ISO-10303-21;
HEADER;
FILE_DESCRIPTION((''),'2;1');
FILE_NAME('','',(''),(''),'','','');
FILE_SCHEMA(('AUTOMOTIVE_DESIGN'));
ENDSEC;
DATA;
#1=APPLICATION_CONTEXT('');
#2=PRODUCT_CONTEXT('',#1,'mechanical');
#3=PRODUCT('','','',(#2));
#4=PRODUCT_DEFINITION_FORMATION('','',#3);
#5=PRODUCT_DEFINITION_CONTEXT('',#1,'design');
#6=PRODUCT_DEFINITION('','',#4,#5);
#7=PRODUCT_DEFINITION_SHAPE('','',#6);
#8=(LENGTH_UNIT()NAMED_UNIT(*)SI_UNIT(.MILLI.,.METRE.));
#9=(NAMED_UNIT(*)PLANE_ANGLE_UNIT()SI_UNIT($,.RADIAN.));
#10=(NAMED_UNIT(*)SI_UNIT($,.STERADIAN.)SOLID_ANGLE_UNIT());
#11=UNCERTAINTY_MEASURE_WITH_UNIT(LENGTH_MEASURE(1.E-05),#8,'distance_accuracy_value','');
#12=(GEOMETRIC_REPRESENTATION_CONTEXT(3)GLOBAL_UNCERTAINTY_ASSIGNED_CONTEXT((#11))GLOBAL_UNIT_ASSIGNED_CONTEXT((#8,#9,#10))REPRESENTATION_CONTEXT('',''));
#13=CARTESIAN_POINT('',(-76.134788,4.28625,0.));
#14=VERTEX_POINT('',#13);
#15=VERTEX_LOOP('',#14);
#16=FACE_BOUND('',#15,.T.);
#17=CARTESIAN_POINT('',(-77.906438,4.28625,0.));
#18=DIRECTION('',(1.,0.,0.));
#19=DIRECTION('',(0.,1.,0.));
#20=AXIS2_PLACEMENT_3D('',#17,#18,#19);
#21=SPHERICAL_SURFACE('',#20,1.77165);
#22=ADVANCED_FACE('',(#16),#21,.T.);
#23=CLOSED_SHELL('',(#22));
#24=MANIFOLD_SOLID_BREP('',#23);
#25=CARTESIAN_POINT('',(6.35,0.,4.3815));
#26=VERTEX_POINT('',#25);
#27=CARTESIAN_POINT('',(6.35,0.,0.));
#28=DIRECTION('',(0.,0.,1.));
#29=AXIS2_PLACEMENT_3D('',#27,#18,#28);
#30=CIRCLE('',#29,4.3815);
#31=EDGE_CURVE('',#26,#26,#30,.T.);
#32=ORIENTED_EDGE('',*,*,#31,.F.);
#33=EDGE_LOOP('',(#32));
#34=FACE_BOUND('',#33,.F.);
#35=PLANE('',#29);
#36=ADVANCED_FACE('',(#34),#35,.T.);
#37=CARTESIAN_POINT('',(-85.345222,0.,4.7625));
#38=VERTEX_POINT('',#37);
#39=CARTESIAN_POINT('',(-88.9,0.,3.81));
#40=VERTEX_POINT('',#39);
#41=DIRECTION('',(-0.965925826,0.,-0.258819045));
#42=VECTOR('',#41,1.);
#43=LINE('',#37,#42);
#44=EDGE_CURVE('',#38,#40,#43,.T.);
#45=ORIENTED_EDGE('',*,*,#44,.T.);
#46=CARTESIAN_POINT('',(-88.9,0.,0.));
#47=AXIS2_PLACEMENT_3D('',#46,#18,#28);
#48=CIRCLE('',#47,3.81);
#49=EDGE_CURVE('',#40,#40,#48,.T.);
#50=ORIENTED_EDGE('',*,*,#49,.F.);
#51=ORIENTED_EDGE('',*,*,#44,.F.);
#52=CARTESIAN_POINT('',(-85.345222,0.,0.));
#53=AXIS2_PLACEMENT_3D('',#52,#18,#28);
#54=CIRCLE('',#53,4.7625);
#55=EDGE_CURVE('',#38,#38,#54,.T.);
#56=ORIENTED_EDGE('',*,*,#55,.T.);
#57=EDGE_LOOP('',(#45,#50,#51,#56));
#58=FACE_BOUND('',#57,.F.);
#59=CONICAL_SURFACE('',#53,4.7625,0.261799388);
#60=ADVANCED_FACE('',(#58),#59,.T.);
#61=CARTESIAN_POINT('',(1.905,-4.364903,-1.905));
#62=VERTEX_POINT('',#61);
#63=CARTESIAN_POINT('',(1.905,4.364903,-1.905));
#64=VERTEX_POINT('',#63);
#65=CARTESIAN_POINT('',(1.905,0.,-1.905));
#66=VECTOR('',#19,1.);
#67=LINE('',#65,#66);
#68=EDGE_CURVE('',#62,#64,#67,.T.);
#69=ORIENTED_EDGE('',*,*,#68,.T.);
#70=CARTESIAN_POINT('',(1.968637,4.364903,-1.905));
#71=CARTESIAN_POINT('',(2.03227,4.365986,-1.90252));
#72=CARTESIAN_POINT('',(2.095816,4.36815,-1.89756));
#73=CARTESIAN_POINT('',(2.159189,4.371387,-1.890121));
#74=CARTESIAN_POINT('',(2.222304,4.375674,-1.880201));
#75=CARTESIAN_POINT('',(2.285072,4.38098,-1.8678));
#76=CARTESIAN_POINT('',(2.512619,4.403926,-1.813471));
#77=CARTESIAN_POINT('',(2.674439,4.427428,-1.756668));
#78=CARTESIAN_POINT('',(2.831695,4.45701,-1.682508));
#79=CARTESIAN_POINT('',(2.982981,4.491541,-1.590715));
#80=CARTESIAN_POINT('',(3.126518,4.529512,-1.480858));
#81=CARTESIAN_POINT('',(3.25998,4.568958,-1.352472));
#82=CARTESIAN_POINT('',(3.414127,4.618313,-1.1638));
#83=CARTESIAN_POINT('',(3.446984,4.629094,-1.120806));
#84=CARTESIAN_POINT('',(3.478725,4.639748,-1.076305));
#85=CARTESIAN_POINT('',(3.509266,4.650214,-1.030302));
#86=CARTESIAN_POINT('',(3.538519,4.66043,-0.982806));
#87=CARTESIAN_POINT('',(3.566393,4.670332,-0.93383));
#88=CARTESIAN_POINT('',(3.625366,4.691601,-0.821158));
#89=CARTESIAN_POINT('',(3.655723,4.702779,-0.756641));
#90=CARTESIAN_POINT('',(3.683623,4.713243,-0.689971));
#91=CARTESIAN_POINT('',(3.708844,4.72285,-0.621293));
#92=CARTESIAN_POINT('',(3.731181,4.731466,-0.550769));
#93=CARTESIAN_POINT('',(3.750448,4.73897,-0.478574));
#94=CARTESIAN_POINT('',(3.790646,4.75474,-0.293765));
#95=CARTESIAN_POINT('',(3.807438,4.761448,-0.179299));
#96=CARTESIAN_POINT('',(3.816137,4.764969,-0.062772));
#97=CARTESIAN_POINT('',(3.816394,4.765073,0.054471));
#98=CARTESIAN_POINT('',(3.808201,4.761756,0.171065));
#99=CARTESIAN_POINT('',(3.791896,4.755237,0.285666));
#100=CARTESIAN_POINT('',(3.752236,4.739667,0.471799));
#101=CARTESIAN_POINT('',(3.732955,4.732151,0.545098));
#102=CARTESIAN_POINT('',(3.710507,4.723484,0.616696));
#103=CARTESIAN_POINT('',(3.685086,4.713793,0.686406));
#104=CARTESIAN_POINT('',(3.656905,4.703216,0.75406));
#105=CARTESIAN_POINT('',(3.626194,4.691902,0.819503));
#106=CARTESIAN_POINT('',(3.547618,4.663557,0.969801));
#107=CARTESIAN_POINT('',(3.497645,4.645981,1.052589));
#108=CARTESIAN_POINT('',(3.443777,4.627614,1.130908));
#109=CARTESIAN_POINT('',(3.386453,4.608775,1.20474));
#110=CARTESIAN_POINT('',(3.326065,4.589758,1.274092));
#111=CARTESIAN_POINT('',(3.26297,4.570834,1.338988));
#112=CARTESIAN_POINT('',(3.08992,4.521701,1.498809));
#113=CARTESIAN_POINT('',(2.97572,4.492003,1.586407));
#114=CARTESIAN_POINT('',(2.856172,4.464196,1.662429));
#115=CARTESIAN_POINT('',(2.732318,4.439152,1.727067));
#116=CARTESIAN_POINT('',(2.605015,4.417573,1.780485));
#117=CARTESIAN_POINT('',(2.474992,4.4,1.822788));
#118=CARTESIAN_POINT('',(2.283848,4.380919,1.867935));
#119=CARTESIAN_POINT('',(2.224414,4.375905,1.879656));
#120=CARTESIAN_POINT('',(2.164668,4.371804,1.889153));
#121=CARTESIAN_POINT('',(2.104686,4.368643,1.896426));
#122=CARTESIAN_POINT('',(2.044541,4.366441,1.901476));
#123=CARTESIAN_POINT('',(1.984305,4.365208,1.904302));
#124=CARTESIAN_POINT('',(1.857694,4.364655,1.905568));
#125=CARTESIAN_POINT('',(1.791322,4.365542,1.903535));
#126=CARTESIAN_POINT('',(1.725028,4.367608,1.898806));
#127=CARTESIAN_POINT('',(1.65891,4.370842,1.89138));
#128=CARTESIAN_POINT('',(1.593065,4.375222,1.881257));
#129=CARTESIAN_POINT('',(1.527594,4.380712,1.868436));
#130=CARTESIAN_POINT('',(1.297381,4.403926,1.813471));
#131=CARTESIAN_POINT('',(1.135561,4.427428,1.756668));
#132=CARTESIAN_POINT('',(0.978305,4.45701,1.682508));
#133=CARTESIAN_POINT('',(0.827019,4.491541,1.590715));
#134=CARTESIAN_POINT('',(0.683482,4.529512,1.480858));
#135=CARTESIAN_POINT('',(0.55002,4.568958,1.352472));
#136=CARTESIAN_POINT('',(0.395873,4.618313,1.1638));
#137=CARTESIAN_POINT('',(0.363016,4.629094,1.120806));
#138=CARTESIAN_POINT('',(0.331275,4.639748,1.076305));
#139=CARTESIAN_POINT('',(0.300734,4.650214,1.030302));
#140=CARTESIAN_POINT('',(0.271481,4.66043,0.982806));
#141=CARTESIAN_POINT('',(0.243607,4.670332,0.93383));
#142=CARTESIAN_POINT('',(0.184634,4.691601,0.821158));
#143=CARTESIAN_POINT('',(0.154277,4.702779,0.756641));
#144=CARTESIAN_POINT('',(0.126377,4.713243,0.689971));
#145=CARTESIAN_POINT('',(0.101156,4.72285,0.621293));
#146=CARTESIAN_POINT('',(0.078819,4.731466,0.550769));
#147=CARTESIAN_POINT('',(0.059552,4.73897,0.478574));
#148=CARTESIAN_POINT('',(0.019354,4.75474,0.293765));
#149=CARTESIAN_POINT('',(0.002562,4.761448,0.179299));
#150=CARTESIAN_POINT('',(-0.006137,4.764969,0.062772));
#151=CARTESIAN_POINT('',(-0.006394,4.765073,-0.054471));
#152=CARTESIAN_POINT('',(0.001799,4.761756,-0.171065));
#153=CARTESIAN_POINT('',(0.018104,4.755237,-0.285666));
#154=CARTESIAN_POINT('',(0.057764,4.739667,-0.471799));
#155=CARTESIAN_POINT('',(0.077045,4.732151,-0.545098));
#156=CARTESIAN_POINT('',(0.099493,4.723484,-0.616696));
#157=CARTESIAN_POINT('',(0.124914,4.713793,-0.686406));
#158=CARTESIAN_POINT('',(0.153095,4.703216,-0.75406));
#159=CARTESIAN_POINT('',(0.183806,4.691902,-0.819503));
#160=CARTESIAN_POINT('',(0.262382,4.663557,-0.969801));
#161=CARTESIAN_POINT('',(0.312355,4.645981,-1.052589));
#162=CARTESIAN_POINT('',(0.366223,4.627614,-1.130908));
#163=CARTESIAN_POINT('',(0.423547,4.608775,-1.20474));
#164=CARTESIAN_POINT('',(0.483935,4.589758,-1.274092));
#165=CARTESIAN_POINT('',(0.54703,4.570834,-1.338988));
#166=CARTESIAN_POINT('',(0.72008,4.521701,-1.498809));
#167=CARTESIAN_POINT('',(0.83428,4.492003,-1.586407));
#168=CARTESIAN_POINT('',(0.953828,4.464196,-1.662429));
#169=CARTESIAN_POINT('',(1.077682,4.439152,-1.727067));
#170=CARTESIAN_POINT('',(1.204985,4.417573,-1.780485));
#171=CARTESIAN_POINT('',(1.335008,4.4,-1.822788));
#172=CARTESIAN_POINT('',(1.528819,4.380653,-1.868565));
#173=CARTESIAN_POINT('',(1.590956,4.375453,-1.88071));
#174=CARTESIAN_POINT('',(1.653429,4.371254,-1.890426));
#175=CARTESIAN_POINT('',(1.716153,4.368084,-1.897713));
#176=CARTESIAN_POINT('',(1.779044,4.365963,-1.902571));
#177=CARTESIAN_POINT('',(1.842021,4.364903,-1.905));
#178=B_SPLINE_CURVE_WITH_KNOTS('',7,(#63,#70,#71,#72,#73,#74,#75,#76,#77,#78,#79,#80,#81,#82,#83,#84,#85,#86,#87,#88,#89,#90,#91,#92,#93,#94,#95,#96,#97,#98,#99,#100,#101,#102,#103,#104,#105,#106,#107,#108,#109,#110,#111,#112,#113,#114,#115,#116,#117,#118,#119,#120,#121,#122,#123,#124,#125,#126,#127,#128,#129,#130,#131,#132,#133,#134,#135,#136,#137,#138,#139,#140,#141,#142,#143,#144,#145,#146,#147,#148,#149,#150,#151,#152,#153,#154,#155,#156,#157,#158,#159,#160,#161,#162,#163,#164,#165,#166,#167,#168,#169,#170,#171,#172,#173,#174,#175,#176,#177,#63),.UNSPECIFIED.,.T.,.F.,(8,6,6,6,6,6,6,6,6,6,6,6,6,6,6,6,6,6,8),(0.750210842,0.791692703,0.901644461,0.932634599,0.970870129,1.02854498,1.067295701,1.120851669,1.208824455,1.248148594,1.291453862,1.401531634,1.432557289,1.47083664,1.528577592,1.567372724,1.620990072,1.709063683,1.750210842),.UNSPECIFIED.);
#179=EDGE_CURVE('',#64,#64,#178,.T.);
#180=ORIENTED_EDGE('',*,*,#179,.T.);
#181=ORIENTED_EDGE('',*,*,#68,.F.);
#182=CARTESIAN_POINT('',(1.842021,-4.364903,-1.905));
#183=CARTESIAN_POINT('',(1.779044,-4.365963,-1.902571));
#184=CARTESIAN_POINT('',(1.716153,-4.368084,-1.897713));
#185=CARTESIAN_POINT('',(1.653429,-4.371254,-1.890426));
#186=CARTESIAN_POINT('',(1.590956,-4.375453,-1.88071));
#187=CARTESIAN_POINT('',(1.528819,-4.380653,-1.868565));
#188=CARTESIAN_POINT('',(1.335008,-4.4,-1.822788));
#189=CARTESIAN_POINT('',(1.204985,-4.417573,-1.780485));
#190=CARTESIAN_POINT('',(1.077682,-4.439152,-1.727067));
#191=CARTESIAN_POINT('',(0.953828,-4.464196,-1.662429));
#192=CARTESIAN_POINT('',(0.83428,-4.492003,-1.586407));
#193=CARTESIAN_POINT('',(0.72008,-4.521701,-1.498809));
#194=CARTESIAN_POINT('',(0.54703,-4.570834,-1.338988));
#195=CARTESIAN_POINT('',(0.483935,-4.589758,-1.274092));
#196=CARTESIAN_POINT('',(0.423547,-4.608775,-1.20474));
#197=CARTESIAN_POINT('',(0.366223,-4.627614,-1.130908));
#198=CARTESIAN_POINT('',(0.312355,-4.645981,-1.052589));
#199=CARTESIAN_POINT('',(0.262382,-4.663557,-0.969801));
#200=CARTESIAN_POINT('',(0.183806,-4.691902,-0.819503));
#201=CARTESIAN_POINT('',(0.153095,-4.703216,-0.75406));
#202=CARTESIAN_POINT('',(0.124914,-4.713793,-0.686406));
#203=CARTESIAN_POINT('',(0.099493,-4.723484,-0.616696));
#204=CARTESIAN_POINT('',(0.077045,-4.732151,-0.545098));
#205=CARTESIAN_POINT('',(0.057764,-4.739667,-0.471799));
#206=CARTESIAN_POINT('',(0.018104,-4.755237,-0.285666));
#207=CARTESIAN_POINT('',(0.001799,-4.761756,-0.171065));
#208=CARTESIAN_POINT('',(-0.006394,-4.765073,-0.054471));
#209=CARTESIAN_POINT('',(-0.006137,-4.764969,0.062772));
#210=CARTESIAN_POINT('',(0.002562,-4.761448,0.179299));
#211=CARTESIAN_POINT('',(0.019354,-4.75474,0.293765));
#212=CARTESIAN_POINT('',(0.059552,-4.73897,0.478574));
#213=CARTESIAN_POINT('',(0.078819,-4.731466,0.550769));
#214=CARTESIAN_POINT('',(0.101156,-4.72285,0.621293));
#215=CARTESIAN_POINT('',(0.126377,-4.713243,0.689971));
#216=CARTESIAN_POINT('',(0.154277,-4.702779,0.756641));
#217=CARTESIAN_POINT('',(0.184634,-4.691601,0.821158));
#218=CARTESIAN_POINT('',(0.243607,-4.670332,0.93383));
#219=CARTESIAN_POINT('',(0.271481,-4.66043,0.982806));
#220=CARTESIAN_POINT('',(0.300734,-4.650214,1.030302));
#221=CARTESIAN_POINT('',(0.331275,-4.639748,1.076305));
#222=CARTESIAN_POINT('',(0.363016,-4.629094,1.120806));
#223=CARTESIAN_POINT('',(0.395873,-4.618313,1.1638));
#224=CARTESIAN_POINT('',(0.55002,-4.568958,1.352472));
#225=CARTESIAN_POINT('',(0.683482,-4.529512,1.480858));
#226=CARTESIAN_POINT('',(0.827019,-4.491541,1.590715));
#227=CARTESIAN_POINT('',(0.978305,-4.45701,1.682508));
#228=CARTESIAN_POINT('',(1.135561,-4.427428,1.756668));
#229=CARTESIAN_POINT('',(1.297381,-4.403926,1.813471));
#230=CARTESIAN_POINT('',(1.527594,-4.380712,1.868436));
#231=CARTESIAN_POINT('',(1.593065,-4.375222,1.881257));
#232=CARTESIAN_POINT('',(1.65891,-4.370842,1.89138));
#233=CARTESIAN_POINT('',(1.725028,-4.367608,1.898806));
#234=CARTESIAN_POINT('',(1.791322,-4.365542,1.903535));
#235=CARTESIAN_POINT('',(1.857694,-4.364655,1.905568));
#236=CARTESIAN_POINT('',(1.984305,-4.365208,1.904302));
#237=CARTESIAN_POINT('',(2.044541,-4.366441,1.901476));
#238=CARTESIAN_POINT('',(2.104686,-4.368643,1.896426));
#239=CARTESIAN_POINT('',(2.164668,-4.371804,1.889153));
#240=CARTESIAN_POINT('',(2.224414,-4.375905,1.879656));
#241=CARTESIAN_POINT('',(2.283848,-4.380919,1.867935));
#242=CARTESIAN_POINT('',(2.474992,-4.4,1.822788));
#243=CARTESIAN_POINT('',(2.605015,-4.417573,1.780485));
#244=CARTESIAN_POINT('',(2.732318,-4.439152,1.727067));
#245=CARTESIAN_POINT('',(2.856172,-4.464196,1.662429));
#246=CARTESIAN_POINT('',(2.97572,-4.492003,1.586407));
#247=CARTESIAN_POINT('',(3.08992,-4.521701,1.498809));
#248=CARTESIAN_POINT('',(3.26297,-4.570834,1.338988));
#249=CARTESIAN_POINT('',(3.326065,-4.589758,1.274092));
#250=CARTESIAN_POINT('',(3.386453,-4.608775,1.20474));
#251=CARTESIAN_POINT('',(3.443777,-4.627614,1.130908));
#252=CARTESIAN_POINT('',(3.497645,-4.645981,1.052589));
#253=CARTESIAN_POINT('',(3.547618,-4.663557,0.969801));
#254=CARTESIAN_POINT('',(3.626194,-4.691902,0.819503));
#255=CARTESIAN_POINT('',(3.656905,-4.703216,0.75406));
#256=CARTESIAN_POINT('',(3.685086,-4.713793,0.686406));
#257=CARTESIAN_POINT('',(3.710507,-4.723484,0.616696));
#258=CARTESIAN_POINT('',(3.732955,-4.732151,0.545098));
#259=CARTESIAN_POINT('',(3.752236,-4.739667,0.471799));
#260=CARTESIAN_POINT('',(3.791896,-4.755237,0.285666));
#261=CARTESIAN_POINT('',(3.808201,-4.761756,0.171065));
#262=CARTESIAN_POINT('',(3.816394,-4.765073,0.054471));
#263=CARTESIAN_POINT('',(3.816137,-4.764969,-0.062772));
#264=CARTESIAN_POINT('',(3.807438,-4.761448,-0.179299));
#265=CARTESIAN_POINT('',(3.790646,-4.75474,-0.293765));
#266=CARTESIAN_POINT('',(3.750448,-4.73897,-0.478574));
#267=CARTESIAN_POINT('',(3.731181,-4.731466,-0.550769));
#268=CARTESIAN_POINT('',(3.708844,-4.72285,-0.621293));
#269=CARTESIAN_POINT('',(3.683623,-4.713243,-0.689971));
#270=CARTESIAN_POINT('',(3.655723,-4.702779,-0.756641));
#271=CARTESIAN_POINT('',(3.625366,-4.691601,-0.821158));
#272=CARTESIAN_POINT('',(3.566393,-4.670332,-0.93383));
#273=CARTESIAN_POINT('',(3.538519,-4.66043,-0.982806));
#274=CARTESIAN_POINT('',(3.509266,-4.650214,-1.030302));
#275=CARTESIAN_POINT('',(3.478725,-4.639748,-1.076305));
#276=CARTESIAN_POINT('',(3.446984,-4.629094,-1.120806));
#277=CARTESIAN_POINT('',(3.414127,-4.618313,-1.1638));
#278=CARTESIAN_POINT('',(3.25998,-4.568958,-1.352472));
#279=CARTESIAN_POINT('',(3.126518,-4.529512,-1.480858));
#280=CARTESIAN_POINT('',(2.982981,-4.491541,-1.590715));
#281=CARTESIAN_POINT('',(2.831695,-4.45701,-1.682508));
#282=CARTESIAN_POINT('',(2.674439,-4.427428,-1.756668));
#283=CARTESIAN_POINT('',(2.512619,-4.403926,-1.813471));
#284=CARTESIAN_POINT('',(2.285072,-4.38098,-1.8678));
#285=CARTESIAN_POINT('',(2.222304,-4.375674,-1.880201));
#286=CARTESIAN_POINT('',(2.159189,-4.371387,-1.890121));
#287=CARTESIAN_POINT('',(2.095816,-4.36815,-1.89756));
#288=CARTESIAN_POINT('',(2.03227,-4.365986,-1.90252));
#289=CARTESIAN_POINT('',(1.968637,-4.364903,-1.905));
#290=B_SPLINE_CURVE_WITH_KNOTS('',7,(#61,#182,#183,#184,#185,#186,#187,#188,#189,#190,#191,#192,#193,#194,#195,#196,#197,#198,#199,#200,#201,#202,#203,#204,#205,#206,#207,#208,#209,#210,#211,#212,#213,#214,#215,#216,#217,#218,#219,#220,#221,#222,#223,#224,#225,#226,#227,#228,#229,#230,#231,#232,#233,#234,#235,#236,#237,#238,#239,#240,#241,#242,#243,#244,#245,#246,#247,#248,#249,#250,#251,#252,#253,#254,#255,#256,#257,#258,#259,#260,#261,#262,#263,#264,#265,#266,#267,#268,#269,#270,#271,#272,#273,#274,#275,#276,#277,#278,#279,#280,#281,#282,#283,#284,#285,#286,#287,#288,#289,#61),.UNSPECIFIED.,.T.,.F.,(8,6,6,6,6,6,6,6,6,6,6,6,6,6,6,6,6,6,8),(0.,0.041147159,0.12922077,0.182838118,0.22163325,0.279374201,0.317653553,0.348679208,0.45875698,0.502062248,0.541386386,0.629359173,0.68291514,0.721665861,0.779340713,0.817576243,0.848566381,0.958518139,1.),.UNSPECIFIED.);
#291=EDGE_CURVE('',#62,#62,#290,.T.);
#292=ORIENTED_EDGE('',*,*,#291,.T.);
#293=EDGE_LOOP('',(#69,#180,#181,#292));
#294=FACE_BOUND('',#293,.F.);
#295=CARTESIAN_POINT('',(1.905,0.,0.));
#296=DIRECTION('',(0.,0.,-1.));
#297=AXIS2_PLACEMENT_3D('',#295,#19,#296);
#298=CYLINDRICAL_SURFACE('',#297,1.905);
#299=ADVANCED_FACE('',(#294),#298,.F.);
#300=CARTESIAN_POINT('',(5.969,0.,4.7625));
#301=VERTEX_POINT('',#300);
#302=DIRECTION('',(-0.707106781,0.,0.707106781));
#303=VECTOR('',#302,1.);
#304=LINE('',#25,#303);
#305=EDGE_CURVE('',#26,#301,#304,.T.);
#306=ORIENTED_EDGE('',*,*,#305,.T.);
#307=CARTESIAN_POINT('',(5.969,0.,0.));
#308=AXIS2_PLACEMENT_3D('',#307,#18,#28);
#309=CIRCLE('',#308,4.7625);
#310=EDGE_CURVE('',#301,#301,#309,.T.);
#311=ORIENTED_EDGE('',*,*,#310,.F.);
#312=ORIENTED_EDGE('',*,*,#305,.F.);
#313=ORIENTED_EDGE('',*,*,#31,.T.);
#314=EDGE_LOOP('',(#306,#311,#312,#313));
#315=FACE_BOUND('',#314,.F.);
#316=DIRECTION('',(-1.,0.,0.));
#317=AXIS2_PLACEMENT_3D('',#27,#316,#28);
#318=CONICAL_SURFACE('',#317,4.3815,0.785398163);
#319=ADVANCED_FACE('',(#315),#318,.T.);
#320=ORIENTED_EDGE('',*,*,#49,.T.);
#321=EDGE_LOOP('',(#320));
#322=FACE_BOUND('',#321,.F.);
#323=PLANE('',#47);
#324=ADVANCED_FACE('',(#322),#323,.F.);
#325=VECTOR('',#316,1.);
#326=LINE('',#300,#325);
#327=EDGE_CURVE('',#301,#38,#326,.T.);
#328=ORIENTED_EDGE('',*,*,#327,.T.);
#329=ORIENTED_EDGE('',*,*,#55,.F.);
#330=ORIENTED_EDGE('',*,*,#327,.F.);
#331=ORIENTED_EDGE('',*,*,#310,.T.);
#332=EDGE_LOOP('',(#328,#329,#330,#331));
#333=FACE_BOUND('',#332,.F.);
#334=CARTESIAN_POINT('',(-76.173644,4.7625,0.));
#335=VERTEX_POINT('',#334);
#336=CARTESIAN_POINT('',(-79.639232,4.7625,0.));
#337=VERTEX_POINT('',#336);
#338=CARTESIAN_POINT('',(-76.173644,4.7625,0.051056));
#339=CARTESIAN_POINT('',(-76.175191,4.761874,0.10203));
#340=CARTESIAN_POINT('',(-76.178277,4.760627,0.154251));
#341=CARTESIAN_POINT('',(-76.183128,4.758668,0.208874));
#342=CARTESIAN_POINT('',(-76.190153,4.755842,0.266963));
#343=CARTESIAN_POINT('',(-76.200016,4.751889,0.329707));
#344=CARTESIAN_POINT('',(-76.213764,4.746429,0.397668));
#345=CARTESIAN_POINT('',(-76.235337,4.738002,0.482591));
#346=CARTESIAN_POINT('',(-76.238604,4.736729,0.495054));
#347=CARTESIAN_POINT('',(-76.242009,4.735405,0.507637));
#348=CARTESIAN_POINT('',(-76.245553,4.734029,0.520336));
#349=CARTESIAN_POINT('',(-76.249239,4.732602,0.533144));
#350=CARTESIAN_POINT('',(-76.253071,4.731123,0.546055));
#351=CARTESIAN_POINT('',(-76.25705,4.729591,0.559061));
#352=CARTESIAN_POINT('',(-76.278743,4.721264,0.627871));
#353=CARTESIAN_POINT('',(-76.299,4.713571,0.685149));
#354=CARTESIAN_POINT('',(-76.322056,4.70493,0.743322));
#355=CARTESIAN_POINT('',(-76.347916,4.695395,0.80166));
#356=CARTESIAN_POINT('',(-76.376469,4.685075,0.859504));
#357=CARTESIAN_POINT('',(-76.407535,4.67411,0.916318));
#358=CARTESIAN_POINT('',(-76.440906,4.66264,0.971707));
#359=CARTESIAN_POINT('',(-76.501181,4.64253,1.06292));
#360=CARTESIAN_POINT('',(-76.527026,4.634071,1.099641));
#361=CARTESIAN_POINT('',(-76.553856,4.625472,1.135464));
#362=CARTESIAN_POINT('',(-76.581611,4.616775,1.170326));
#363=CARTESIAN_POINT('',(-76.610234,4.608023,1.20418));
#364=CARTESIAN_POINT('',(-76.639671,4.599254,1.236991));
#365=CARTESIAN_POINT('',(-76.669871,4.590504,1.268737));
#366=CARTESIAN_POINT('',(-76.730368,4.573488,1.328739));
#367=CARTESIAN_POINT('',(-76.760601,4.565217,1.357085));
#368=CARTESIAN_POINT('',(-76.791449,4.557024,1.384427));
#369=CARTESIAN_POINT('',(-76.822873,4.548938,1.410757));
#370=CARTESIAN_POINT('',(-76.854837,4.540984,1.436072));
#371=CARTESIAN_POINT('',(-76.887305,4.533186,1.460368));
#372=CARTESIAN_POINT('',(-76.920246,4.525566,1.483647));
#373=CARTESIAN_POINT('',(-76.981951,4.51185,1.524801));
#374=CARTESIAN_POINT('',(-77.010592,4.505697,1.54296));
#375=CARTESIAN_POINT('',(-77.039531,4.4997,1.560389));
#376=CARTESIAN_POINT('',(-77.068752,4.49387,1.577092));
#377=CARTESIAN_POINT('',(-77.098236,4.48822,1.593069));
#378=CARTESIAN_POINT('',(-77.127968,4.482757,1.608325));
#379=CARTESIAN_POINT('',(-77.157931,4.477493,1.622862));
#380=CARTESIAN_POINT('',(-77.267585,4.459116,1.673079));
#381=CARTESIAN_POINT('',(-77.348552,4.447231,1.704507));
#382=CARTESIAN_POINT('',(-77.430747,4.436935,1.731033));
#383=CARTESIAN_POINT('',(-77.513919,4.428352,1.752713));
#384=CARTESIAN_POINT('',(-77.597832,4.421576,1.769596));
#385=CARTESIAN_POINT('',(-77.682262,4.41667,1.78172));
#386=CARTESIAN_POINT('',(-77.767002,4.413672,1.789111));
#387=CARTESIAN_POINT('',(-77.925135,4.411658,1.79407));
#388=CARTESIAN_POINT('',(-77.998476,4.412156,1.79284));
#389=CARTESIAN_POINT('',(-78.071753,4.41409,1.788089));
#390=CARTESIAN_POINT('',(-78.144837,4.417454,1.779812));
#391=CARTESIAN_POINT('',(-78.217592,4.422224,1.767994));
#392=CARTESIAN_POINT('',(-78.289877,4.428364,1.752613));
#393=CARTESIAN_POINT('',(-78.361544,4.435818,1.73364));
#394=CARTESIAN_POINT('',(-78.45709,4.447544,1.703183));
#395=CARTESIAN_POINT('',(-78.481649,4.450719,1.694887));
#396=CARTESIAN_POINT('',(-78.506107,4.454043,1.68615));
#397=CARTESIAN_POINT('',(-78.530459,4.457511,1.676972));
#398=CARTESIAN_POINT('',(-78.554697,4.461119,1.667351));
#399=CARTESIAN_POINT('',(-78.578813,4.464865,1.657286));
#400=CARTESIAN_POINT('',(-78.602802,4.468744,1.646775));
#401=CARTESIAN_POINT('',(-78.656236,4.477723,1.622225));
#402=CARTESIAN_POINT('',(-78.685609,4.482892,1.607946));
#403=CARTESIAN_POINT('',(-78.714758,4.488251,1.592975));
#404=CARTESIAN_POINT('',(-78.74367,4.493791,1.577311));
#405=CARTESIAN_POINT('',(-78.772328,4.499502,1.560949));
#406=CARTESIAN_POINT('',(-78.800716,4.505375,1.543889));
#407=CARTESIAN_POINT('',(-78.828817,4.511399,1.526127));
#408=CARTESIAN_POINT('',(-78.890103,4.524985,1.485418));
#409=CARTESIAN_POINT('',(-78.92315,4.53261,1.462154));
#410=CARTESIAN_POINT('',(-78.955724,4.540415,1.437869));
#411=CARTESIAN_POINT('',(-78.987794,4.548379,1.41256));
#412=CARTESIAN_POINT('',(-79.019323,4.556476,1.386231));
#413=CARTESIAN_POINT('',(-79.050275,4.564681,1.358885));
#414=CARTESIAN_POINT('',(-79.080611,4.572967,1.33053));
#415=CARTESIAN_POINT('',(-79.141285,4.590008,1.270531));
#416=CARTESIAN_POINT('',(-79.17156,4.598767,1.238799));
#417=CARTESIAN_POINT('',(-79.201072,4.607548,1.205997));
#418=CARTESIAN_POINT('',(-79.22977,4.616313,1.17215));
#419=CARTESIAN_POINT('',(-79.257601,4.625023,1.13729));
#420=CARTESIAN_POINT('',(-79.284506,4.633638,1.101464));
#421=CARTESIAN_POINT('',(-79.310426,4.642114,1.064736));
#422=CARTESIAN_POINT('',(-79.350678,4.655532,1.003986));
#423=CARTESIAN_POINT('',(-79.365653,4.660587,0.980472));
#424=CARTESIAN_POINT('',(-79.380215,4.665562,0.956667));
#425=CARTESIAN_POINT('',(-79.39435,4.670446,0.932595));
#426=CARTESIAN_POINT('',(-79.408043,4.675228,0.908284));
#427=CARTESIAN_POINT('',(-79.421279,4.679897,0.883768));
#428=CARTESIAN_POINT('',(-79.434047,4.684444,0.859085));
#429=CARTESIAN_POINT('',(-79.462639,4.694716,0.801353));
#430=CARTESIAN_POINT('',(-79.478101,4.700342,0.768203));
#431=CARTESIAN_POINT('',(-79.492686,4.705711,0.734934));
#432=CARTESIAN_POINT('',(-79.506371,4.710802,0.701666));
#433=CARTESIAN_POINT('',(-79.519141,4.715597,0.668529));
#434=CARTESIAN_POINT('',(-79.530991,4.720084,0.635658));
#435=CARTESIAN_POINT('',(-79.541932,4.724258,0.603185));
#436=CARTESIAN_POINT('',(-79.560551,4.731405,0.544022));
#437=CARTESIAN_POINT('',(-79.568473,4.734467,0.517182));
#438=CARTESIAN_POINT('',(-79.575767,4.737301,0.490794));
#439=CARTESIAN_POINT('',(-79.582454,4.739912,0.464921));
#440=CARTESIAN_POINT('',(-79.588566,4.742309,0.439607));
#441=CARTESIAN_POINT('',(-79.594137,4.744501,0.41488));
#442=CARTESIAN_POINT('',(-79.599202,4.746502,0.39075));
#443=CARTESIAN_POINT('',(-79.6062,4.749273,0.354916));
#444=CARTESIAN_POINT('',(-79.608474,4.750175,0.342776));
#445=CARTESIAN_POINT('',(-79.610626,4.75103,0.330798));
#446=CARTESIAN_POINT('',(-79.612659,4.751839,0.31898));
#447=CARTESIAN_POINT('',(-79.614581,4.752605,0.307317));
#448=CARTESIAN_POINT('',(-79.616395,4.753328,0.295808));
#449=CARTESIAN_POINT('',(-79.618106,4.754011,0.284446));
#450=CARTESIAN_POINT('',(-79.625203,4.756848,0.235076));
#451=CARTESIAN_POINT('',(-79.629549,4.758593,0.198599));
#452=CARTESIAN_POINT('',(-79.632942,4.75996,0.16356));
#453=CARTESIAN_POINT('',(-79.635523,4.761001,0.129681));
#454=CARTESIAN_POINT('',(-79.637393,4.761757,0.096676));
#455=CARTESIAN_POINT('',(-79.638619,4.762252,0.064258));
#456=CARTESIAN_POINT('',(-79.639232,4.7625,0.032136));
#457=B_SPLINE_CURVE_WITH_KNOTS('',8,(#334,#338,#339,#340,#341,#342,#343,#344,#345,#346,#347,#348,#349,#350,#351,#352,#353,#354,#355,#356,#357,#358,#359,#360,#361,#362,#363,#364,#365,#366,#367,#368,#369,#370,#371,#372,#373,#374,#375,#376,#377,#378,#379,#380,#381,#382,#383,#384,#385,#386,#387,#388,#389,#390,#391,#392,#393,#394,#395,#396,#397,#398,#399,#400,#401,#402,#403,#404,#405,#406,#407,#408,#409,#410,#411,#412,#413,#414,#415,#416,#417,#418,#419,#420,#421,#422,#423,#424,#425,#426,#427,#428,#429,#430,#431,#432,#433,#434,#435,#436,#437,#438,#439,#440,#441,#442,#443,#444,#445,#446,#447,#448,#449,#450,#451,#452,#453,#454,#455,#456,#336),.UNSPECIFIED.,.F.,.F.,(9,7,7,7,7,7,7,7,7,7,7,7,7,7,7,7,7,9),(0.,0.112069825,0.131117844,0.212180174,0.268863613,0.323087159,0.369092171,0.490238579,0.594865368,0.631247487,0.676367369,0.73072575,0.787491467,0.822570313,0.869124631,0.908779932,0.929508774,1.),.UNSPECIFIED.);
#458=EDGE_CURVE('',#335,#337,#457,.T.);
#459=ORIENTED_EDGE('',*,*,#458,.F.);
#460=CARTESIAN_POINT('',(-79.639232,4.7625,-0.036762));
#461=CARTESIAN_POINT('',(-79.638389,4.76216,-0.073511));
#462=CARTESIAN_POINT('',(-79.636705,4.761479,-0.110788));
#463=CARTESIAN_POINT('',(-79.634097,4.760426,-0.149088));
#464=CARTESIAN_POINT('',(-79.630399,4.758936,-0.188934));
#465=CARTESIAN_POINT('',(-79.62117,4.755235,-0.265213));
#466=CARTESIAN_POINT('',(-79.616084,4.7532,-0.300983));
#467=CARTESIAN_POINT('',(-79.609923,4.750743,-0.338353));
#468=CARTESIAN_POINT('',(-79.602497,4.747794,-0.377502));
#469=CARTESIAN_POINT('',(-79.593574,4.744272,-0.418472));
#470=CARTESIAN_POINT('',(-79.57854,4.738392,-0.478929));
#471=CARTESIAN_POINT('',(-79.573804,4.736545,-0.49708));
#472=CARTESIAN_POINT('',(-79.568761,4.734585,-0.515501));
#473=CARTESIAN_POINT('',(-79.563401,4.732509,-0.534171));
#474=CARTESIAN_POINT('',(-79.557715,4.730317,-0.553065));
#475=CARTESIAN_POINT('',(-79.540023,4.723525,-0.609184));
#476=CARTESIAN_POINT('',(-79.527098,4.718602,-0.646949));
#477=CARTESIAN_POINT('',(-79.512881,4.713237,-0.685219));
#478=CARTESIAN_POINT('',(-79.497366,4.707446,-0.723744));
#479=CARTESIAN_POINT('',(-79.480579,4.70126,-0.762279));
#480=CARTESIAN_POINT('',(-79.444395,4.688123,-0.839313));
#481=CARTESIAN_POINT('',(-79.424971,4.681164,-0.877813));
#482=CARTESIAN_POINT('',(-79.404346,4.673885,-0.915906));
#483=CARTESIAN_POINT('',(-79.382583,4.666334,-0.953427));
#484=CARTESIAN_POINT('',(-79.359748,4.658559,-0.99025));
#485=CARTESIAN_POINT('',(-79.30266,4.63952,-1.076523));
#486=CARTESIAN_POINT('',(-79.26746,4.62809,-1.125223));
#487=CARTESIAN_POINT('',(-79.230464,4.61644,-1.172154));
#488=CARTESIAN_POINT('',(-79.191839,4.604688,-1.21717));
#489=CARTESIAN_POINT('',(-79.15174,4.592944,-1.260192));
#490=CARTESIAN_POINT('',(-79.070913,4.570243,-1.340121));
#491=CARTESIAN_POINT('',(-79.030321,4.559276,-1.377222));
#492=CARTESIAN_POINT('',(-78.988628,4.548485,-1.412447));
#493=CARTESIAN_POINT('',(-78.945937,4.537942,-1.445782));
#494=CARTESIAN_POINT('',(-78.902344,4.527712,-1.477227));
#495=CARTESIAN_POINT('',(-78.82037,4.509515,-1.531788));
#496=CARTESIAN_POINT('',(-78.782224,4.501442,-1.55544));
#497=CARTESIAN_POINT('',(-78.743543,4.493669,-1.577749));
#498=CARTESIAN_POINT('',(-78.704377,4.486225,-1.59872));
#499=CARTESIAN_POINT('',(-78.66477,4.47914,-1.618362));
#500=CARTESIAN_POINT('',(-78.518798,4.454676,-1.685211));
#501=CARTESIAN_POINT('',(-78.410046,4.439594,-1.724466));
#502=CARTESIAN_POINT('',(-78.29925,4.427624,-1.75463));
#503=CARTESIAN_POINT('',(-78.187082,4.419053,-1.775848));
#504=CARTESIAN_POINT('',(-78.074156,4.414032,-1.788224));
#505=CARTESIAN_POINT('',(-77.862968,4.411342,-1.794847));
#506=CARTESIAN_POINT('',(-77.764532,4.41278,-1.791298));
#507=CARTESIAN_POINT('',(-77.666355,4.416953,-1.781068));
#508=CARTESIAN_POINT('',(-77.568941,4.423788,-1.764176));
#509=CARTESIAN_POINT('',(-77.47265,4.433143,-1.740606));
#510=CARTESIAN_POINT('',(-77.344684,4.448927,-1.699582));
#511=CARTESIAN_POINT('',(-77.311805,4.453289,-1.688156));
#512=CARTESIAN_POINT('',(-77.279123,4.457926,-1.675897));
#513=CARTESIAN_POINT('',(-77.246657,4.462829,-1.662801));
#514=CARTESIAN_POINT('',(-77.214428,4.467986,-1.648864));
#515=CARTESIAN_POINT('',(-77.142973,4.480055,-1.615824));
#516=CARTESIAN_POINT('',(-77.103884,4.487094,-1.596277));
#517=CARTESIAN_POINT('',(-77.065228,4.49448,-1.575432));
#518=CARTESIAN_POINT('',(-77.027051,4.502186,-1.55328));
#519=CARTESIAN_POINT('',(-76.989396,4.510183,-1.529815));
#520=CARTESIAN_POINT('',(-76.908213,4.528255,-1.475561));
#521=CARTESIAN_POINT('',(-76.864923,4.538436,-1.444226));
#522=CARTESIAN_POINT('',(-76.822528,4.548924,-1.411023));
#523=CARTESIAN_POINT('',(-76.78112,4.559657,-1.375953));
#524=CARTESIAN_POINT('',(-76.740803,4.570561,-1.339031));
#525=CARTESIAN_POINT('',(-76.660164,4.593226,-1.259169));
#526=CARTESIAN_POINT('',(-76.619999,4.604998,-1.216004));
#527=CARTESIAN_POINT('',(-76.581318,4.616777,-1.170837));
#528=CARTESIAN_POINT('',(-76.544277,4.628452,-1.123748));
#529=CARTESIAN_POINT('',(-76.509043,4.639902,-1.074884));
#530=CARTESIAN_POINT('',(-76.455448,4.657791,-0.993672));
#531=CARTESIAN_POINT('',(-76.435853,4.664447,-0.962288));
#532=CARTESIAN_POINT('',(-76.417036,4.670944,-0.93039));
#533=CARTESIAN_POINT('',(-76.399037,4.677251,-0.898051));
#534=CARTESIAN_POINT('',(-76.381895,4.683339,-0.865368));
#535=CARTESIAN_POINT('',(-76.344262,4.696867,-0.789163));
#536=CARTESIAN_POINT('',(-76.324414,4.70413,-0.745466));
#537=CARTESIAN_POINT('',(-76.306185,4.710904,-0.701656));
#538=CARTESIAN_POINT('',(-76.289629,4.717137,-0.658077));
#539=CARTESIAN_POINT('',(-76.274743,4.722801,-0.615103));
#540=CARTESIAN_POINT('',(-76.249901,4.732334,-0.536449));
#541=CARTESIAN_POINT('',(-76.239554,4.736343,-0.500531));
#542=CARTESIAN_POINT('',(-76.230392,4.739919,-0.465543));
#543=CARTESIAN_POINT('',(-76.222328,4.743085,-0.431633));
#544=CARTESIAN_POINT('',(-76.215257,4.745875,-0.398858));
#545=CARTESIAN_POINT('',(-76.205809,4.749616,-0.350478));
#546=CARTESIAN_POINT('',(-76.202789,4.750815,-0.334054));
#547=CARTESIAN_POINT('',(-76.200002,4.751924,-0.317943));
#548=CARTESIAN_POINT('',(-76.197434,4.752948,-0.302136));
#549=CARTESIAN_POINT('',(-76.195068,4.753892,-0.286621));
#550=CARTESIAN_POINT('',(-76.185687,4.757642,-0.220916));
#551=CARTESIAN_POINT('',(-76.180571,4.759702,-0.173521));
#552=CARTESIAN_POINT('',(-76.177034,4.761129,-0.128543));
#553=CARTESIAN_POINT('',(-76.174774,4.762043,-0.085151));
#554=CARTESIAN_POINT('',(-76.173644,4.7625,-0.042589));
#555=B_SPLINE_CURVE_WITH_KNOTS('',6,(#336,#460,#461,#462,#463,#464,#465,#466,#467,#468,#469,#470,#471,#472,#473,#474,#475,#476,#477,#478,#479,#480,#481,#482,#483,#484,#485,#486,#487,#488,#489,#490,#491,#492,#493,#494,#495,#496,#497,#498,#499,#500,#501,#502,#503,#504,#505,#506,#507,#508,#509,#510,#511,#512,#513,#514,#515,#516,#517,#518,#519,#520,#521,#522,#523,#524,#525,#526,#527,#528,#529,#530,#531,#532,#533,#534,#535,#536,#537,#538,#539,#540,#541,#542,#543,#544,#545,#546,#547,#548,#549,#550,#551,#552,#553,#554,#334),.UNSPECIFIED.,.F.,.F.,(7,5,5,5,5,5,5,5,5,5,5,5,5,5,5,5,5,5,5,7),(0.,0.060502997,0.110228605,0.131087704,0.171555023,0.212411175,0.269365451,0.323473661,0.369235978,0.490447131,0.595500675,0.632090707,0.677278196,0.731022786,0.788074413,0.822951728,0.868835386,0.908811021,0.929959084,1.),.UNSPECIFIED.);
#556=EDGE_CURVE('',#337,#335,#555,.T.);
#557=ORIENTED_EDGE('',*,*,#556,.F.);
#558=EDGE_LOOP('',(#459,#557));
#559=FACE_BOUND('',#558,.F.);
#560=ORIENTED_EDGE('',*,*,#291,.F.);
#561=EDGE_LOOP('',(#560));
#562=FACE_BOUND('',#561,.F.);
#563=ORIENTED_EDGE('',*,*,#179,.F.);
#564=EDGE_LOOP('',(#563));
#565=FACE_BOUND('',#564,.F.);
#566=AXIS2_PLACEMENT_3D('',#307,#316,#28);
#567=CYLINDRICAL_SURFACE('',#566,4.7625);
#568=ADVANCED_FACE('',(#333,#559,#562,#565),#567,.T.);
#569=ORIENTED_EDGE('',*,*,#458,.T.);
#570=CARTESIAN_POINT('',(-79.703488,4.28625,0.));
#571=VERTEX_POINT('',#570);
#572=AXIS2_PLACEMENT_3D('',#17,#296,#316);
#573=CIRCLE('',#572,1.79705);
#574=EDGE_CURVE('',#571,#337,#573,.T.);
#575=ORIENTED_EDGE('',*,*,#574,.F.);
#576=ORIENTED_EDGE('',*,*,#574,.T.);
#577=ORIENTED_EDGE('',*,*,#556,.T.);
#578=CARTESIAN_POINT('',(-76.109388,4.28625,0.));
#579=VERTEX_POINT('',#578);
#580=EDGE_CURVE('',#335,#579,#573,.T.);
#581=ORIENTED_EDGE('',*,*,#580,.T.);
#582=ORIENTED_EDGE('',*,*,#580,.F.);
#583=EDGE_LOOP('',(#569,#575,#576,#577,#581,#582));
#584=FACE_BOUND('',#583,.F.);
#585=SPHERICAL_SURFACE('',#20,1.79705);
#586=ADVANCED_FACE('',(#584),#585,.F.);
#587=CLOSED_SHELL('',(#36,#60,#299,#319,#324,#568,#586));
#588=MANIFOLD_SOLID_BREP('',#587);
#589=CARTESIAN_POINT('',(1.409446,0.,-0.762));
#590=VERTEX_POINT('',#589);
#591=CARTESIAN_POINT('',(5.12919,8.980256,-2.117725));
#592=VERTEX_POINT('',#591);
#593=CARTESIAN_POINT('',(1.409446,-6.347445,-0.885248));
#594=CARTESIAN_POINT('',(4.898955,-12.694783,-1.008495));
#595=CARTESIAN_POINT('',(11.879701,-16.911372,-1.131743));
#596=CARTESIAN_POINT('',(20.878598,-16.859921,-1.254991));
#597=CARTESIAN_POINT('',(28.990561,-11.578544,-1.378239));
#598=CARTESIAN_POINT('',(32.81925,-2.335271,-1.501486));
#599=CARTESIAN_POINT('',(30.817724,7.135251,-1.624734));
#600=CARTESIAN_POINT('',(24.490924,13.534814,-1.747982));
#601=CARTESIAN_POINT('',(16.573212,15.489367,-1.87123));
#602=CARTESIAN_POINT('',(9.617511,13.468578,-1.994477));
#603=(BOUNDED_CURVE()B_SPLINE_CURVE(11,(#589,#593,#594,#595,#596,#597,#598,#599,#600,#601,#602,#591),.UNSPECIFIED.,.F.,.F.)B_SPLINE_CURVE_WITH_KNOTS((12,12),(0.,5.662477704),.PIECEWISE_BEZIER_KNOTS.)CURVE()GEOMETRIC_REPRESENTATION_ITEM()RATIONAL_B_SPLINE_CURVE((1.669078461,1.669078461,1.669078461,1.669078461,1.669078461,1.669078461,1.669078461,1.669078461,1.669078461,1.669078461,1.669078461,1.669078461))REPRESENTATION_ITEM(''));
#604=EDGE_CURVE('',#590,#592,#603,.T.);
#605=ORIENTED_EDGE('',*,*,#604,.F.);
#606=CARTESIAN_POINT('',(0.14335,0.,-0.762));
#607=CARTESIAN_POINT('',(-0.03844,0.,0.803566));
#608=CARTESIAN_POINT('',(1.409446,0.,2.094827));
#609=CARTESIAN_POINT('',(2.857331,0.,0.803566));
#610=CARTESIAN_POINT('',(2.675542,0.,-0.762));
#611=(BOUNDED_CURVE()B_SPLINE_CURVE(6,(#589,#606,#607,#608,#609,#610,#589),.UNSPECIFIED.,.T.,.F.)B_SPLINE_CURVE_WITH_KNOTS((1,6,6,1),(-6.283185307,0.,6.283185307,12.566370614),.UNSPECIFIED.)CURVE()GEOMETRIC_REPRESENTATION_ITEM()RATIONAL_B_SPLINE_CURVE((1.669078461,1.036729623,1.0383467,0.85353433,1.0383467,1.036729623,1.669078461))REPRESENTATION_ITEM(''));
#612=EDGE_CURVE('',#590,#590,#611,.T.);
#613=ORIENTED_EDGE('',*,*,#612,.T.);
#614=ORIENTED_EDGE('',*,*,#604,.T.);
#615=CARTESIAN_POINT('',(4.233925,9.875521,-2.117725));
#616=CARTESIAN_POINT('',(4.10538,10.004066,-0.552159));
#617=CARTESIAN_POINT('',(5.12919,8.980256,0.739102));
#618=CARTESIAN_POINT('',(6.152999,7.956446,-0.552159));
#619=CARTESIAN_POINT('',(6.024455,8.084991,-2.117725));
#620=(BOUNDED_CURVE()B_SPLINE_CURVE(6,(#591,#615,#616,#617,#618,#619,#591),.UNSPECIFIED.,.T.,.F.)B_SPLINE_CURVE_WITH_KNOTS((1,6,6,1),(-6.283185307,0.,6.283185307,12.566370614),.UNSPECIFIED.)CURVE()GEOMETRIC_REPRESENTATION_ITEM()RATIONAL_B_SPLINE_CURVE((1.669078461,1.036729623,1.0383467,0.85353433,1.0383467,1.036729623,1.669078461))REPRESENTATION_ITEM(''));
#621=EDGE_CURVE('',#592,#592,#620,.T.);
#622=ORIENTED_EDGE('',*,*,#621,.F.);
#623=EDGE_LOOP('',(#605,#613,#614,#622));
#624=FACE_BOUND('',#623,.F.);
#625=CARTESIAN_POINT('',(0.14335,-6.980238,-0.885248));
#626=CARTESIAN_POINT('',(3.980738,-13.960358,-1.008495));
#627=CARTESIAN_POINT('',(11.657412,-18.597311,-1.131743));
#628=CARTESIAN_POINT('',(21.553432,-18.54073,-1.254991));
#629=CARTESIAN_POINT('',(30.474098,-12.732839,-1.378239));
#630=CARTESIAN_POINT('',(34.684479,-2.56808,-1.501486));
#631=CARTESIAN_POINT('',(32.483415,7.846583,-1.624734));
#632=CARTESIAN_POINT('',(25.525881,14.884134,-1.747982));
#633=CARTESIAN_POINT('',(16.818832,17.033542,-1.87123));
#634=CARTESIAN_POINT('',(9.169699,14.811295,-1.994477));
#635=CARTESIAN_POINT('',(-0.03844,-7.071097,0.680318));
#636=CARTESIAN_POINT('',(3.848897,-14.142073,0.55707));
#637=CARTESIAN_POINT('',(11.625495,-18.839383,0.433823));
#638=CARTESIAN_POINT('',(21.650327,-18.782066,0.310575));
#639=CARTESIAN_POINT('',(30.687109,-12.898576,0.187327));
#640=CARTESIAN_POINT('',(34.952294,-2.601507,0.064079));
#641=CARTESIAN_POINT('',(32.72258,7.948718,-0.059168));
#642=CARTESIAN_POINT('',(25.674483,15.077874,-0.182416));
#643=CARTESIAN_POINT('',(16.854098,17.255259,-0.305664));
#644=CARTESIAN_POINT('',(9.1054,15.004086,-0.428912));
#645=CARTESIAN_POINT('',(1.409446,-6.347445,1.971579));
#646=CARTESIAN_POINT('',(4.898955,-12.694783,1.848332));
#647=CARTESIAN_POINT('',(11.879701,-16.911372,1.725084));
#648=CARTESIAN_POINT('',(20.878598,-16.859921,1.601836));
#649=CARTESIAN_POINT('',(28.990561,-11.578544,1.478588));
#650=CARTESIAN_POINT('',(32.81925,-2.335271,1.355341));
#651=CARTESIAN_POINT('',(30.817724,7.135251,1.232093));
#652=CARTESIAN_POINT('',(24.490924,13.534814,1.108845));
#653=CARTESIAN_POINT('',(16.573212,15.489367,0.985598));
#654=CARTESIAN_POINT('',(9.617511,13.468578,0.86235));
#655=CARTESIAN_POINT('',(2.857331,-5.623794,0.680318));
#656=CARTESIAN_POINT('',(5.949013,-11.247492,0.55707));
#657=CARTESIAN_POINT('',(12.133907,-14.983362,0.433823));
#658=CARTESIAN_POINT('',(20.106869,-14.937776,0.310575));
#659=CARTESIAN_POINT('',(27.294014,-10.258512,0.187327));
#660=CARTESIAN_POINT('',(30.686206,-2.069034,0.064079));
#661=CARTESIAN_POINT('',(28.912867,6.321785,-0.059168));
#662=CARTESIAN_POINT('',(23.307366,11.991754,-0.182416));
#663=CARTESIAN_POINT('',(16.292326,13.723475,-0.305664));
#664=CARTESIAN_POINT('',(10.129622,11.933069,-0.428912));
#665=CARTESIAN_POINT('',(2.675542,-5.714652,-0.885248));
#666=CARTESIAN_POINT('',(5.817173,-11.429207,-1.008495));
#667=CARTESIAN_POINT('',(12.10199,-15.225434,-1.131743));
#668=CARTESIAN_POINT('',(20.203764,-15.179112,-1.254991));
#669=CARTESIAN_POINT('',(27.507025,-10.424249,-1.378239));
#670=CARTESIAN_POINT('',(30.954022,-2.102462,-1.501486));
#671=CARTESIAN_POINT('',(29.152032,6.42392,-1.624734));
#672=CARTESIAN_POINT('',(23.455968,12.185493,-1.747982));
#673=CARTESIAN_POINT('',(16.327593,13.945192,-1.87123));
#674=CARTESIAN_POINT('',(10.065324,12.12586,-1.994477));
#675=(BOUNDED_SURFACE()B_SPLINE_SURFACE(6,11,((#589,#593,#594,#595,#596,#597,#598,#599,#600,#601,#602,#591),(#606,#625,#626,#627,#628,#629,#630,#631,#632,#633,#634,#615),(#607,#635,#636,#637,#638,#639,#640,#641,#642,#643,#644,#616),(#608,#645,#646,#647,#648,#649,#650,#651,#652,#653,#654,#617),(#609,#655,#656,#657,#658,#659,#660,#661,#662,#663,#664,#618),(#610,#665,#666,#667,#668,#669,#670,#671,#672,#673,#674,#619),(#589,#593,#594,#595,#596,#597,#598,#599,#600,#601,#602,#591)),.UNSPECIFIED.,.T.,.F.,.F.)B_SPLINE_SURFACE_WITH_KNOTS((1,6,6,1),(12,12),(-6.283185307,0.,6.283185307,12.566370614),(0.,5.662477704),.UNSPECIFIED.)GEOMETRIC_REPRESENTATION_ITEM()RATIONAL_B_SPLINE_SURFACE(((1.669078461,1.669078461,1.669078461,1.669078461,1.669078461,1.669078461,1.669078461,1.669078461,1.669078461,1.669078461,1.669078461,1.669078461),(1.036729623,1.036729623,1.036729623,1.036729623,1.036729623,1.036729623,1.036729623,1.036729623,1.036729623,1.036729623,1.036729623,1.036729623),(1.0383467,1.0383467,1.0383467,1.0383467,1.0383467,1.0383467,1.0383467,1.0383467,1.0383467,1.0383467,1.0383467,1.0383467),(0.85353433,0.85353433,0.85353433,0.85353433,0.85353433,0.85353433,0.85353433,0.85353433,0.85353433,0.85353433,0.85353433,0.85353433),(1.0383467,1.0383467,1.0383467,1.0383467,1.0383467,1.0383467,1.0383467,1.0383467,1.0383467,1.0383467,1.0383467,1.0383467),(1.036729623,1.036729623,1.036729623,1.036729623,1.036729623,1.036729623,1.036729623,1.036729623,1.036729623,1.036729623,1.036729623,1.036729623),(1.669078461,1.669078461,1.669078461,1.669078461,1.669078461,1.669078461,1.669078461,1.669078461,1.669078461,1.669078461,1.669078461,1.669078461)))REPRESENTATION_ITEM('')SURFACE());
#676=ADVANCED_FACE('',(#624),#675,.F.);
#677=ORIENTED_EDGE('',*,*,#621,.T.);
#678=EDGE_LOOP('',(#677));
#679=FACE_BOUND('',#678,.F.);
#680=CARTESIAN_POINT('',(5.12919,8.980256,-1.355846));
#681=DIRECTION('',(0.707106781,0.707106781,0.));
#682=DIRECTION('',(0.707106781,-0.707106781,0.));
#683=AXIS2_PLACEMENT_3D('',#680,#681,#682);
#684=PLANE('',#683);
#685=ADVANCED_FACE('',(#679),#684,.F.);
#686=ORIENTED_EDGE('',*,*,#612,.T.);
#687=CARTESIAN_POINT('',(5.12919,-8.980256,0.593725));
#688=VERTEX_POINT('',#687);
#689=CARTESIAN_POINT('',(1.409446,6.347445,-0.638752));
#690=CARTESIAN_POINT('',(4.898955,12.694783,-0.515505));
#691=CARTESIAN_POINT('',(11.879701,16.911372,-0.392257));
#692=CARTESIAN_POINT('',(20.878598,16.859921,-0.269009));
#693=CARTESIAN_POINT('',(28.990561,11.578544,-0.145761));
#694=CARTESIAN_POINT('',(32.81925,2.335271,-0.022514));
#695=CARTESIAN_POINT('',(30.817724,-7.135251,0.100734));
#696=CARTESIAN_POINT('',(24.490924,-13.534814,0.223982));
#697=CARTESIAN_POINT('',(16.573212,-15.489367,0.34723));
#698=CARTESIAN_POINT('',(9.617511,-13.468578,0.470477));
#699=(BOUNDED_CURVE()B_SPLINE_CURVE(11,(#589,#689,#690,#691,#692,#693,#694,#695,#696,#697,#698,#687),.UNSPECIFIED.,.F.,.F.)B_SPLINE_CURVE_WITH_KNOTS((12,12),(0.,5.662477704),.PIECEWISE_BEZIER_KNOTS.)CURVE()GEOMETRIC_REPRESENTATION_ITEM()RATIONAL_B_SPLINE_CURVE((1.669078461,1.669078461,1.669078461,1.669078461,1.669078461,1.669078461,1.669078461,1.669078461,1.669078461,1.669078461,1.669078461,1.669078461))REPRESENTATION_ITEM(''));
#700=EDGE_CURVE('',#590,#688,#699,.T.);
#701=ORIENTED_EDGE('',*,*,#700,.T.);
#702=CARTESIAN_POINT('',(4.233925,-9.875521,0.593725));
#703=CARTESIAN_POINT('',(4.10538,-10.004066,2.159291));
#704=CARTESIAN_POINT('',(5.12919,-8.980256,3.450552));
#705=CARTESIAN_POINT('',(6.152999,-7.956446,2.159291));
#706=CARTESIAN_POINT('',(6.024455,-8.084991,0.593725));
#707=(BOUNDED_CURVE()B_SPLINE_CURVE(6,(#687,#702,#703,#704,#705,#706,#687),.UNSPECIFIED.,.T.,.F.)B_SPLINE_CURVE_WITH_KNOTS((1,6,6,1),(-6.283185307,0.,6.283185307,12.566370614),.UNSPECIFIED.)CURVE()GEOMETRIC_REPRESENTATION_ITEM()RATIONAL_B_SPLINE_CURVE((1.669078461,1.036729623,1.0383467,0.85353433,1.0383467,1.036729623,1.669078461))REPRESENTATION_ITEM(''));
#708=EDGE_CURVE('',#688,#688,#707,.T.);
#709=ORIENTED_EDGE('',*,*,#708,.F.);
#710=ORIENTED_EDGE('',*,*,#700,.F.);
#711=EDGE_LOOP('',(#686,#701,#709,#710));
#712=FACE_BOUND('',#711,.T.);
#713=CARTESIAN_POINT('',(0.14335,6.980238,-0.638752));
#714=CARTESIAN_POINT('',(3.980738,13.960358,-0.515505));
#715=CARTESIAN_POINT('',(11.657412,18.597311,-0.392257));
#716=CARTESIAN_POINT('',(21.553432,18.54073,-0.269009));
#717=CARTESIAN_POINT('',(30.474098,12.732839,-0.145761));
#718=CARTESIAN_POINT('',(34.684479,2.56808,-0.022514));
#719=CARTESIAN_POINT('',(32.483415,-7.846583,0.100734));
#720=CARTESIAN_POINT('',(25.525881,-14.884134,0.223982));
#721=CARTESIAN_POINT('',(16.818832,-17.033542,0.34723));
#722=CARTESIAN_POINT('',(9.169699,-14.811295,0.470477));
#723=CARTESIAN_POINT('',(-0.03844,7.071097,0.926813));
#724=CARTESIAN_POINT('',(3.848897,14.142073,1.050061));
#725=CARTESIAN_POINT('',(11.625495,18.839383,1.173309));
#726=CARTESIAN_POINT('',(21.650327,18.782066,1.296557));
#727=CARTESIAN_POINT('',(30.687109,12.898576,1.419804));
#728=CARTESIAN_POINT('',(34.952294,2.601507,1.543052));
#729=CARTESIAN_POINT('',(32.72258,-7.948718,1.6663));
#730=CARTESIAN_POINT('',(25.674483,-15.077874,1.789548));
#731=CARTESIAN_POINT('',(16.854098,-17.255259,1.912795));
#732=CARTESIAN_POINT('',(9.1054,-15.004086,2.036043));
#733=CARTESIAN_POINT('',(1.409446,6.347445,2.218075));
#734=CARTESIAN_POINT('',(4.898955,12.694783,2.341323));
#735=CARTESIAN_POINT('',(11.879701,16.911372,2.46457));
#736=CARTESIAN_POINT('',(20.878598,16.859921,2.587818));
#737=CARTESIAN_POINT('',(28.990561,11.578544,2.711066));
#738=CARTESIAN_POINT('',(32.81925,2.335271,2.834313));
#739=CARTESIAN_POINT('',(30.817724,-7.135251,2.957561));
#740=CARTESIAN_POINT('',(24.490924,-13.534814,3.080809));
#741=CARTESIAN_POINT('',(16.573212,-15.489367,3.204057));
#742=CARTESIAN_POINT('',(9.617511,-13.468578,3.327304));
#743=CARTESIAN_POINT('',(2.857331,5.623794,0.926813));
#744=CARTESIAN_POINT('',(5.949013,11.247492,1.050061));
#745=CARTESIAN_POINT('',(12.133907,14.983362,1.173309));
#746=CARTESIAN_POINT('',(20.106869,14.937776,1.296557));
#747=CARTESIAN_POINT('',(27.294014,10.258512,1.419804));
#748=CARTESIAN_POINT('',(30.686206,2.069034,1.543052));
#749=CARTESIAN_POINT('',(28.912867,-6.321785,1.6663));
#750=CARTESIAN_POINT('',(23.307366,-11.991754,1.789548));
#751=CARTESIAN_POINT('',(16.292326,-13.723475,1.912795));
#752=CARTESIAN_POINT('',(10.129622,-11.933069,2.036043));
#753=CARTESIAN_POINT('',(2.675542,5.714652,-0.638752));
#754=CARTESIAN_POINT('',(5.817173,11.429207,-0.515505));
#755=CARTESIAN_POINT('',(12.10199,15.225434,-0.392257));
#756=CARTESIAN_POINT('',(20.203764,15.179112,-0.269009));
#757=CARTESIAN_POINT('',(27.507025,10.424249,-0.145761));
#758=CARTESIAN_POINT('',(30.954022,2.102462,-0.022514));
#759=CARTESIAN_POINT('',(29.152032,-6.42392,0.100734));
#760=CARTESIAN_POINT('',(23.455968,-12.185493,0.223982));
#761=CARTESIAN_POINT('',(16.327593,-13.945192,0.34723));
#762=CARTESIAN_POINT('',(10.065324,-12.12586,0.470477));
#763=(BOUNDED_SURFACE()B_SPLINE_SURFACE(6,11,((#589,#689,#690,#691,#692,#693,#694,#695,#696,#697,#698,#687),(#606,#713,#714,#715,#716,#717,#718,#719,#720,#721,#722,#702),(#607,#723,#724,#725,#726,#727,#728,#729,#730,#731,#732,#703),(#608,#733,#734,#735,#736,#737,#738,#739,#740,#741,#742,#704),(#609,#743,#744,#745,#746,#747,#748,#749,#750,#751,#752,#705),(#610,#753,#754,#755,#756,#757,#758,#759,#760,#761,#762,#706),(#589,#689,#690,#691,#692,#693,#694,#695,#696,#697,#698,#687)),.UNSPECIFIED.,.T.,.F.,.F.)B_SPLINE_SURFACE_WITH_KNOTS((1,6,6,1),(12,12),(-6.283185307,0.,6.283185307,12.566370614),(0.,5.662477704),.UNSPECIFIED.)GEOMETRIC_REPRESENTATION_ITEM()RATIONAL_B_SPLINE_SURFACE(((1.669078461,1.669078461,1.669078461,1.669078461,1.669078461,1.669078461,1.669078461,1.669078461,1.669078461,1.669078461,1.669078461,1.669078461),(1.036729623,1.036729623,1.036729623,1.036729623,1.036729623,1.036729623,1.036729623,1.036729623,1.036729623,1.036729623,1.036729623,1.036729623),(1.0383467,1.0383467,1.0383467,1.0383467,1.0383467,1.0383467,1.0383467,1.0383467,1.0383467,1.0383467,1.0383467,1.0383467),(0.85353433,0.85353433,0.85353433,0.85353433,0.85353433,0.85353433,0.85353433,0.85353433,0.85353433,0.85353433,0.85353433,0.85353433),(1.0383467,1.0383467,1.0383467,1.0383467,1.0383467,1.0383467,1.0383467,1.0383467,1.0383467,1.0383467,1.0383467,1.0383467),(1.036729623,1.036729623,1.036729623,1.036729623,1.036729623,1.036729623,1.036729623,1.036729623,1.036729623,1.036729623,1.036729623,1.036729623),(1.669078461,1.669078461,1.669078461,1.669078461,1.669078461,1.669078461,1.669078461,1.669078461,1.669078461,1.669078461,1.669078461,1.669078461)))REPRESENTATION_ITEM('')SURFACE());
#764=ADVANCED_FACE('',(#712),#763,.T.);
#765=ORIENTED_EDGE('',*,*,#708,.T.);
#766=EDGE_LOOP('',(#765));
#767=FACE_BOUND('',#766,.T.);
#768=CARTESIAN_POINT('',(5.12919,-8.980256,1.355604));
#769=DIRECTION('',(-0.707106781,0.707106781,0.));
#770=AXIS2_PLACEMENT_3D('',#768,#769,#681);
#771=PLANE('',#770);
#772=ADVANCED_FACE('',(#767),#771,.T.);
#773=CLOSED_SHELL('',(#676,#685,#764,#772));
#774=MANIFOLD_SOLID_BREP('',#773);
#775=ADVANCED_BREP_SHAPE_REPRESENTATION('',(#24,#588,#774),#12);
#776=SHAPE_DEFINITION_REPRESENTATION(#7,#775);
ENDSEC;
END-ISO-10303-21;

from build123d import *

# Parameters (mm, degrees)
SKETCH4_W          = 1.905
SKETCH4_H          = 9.525
SWEEP1_PITCH       = 1.5494
SWEEP1_HEIGHT      = 1.355725
SWEEP1_RADIUS      = 13.462
SKETCH6_R          = 0.762
SWEEP2_PITCH       = 1.5494
SWEEP2_HEIGHT      = 1.355725
SWEEP2_RADIUS      = 13.462
SWEEP2_START_ANGLE = -180
SKETCH6_2_R        = 0.762


with BuildPart() as part:
    # Sketch1 → Revolve1 (revolve)
    with BuildSketch(Plane.XY, mode=Mode.PRIVATE) as revolve1_sk:
        Polygon((6.35, 4.3815), (5.969, 4.7625), (-85.345221606, 4.7625), (-88.9, 3.81), (-88.9, 0), (6.35, 0), align=None)
    revolve(revolve1_sk.sketch.rotate(Axis((6.35, 0, 0), (1, 0, 0)), 90), axis=Axis((6.35, 0, 0), (1, 0, 0)))

    # Sketch2 → Cut-Revolve1 (revolve, cut)
    with BuildSketch(Plane.XY):
        with BuildLine():
            Line((-76.109387711, 4.28625), (-79.703487711, 4.28625))
            ThreePointArc((-79.703487711, 4.28625), (-77.906437711, 6.0833), (-76.109387711, 4.28625))
        make_face()
    revolve(axis=Axis((-76.109387711, 4.28625, 0), (1, 0, 0)), mode=Mode.SUBTRACT)

    # Sketch4 → Cut-Revolve2 (revolve, cut)
    with BuildSketch(Plane.XY, mode=Mode.PRIVATE) as cut_revolve2_sk:
        with Locations((2.8575, 0)):
            Rectangle(SKETCH4_W, SKETCH4_H)
    revolve(cut_revolve2_sk.sketch.rotate(Axis((1.905, -4.7625, 0), (0, 1, 0)), 90), axis=Axis((1.905, -4.7625, 0), (0, 1, 0)), mode=Mode.SUBTRACT)


with BuildPart() as body_2:
    # Sketch3 → Revolve2 (revolve)
    with BuildSketch(Plane.XY):
        with BuildLine():
            Line((-76.134787711, 4.28625), (-79.678087711, 4.28625))
            ThreePointArc((-79.678087711, 4.28625), (-77.906437711, 6.0579), (-76.134787711, 4.28625))
        make_face()
    revolve(axis=Axis((-76.134787711, 4.28625, 0), (1, 0, 0)))


with BuildPart() as body_3:
    # Sweep1: sweep along a helix
    with BuildLine() as sweep1_path:
        Helix(SWEEP1_PITCH, SWEEP1_HEIGHT, SWEEP1_RADIUS, center=(14.109445847, 0, 0), direction=(0, 0, -1), lefthand=True)
    # Sketch6 → Sweep1 (sweep)
    with BuildSketch(Plane(origin=(114.003847968, 0, 0), x_dir=(0, 0, -1), z_dir=(0, 1, 0))):
        with Locations((0, 112.594402121)):
            Circle(SKETCH6_R)
    sweep(path=sweep1_path.line, is_frenet=True)

    # Sweep2: sweep along a helix
    with BuildLine() as sweep2_path:
        add(Helix(SWEEP2_PITCH, SWEEP2_HEIGHT, SWEEP2_RADIUS, center=(14.109445847, 0, 0), direction=(0, 0, 1), lefthand=True, mode=Mode.PRIVATE).rotate(Axis((14.109445847, 0, 0), (0, 0, 1)), SWEEP2_START_ANGLE))
    # Sketch6<2> → Sweep2 (sweep)
    with BuildSketch(Plane(origin=(114.003847968, 0, 0), x_dir=(0, 0, -1), z_dir=(0, 1, 0))):
        with Locations((0, 112.594402121)):
            Circle(SKETCH6_2_R)
    sweep(path=sweep2_path.line, is_frenet=True)


solid = Compound([part.part, body_2.part, body_3.part])
